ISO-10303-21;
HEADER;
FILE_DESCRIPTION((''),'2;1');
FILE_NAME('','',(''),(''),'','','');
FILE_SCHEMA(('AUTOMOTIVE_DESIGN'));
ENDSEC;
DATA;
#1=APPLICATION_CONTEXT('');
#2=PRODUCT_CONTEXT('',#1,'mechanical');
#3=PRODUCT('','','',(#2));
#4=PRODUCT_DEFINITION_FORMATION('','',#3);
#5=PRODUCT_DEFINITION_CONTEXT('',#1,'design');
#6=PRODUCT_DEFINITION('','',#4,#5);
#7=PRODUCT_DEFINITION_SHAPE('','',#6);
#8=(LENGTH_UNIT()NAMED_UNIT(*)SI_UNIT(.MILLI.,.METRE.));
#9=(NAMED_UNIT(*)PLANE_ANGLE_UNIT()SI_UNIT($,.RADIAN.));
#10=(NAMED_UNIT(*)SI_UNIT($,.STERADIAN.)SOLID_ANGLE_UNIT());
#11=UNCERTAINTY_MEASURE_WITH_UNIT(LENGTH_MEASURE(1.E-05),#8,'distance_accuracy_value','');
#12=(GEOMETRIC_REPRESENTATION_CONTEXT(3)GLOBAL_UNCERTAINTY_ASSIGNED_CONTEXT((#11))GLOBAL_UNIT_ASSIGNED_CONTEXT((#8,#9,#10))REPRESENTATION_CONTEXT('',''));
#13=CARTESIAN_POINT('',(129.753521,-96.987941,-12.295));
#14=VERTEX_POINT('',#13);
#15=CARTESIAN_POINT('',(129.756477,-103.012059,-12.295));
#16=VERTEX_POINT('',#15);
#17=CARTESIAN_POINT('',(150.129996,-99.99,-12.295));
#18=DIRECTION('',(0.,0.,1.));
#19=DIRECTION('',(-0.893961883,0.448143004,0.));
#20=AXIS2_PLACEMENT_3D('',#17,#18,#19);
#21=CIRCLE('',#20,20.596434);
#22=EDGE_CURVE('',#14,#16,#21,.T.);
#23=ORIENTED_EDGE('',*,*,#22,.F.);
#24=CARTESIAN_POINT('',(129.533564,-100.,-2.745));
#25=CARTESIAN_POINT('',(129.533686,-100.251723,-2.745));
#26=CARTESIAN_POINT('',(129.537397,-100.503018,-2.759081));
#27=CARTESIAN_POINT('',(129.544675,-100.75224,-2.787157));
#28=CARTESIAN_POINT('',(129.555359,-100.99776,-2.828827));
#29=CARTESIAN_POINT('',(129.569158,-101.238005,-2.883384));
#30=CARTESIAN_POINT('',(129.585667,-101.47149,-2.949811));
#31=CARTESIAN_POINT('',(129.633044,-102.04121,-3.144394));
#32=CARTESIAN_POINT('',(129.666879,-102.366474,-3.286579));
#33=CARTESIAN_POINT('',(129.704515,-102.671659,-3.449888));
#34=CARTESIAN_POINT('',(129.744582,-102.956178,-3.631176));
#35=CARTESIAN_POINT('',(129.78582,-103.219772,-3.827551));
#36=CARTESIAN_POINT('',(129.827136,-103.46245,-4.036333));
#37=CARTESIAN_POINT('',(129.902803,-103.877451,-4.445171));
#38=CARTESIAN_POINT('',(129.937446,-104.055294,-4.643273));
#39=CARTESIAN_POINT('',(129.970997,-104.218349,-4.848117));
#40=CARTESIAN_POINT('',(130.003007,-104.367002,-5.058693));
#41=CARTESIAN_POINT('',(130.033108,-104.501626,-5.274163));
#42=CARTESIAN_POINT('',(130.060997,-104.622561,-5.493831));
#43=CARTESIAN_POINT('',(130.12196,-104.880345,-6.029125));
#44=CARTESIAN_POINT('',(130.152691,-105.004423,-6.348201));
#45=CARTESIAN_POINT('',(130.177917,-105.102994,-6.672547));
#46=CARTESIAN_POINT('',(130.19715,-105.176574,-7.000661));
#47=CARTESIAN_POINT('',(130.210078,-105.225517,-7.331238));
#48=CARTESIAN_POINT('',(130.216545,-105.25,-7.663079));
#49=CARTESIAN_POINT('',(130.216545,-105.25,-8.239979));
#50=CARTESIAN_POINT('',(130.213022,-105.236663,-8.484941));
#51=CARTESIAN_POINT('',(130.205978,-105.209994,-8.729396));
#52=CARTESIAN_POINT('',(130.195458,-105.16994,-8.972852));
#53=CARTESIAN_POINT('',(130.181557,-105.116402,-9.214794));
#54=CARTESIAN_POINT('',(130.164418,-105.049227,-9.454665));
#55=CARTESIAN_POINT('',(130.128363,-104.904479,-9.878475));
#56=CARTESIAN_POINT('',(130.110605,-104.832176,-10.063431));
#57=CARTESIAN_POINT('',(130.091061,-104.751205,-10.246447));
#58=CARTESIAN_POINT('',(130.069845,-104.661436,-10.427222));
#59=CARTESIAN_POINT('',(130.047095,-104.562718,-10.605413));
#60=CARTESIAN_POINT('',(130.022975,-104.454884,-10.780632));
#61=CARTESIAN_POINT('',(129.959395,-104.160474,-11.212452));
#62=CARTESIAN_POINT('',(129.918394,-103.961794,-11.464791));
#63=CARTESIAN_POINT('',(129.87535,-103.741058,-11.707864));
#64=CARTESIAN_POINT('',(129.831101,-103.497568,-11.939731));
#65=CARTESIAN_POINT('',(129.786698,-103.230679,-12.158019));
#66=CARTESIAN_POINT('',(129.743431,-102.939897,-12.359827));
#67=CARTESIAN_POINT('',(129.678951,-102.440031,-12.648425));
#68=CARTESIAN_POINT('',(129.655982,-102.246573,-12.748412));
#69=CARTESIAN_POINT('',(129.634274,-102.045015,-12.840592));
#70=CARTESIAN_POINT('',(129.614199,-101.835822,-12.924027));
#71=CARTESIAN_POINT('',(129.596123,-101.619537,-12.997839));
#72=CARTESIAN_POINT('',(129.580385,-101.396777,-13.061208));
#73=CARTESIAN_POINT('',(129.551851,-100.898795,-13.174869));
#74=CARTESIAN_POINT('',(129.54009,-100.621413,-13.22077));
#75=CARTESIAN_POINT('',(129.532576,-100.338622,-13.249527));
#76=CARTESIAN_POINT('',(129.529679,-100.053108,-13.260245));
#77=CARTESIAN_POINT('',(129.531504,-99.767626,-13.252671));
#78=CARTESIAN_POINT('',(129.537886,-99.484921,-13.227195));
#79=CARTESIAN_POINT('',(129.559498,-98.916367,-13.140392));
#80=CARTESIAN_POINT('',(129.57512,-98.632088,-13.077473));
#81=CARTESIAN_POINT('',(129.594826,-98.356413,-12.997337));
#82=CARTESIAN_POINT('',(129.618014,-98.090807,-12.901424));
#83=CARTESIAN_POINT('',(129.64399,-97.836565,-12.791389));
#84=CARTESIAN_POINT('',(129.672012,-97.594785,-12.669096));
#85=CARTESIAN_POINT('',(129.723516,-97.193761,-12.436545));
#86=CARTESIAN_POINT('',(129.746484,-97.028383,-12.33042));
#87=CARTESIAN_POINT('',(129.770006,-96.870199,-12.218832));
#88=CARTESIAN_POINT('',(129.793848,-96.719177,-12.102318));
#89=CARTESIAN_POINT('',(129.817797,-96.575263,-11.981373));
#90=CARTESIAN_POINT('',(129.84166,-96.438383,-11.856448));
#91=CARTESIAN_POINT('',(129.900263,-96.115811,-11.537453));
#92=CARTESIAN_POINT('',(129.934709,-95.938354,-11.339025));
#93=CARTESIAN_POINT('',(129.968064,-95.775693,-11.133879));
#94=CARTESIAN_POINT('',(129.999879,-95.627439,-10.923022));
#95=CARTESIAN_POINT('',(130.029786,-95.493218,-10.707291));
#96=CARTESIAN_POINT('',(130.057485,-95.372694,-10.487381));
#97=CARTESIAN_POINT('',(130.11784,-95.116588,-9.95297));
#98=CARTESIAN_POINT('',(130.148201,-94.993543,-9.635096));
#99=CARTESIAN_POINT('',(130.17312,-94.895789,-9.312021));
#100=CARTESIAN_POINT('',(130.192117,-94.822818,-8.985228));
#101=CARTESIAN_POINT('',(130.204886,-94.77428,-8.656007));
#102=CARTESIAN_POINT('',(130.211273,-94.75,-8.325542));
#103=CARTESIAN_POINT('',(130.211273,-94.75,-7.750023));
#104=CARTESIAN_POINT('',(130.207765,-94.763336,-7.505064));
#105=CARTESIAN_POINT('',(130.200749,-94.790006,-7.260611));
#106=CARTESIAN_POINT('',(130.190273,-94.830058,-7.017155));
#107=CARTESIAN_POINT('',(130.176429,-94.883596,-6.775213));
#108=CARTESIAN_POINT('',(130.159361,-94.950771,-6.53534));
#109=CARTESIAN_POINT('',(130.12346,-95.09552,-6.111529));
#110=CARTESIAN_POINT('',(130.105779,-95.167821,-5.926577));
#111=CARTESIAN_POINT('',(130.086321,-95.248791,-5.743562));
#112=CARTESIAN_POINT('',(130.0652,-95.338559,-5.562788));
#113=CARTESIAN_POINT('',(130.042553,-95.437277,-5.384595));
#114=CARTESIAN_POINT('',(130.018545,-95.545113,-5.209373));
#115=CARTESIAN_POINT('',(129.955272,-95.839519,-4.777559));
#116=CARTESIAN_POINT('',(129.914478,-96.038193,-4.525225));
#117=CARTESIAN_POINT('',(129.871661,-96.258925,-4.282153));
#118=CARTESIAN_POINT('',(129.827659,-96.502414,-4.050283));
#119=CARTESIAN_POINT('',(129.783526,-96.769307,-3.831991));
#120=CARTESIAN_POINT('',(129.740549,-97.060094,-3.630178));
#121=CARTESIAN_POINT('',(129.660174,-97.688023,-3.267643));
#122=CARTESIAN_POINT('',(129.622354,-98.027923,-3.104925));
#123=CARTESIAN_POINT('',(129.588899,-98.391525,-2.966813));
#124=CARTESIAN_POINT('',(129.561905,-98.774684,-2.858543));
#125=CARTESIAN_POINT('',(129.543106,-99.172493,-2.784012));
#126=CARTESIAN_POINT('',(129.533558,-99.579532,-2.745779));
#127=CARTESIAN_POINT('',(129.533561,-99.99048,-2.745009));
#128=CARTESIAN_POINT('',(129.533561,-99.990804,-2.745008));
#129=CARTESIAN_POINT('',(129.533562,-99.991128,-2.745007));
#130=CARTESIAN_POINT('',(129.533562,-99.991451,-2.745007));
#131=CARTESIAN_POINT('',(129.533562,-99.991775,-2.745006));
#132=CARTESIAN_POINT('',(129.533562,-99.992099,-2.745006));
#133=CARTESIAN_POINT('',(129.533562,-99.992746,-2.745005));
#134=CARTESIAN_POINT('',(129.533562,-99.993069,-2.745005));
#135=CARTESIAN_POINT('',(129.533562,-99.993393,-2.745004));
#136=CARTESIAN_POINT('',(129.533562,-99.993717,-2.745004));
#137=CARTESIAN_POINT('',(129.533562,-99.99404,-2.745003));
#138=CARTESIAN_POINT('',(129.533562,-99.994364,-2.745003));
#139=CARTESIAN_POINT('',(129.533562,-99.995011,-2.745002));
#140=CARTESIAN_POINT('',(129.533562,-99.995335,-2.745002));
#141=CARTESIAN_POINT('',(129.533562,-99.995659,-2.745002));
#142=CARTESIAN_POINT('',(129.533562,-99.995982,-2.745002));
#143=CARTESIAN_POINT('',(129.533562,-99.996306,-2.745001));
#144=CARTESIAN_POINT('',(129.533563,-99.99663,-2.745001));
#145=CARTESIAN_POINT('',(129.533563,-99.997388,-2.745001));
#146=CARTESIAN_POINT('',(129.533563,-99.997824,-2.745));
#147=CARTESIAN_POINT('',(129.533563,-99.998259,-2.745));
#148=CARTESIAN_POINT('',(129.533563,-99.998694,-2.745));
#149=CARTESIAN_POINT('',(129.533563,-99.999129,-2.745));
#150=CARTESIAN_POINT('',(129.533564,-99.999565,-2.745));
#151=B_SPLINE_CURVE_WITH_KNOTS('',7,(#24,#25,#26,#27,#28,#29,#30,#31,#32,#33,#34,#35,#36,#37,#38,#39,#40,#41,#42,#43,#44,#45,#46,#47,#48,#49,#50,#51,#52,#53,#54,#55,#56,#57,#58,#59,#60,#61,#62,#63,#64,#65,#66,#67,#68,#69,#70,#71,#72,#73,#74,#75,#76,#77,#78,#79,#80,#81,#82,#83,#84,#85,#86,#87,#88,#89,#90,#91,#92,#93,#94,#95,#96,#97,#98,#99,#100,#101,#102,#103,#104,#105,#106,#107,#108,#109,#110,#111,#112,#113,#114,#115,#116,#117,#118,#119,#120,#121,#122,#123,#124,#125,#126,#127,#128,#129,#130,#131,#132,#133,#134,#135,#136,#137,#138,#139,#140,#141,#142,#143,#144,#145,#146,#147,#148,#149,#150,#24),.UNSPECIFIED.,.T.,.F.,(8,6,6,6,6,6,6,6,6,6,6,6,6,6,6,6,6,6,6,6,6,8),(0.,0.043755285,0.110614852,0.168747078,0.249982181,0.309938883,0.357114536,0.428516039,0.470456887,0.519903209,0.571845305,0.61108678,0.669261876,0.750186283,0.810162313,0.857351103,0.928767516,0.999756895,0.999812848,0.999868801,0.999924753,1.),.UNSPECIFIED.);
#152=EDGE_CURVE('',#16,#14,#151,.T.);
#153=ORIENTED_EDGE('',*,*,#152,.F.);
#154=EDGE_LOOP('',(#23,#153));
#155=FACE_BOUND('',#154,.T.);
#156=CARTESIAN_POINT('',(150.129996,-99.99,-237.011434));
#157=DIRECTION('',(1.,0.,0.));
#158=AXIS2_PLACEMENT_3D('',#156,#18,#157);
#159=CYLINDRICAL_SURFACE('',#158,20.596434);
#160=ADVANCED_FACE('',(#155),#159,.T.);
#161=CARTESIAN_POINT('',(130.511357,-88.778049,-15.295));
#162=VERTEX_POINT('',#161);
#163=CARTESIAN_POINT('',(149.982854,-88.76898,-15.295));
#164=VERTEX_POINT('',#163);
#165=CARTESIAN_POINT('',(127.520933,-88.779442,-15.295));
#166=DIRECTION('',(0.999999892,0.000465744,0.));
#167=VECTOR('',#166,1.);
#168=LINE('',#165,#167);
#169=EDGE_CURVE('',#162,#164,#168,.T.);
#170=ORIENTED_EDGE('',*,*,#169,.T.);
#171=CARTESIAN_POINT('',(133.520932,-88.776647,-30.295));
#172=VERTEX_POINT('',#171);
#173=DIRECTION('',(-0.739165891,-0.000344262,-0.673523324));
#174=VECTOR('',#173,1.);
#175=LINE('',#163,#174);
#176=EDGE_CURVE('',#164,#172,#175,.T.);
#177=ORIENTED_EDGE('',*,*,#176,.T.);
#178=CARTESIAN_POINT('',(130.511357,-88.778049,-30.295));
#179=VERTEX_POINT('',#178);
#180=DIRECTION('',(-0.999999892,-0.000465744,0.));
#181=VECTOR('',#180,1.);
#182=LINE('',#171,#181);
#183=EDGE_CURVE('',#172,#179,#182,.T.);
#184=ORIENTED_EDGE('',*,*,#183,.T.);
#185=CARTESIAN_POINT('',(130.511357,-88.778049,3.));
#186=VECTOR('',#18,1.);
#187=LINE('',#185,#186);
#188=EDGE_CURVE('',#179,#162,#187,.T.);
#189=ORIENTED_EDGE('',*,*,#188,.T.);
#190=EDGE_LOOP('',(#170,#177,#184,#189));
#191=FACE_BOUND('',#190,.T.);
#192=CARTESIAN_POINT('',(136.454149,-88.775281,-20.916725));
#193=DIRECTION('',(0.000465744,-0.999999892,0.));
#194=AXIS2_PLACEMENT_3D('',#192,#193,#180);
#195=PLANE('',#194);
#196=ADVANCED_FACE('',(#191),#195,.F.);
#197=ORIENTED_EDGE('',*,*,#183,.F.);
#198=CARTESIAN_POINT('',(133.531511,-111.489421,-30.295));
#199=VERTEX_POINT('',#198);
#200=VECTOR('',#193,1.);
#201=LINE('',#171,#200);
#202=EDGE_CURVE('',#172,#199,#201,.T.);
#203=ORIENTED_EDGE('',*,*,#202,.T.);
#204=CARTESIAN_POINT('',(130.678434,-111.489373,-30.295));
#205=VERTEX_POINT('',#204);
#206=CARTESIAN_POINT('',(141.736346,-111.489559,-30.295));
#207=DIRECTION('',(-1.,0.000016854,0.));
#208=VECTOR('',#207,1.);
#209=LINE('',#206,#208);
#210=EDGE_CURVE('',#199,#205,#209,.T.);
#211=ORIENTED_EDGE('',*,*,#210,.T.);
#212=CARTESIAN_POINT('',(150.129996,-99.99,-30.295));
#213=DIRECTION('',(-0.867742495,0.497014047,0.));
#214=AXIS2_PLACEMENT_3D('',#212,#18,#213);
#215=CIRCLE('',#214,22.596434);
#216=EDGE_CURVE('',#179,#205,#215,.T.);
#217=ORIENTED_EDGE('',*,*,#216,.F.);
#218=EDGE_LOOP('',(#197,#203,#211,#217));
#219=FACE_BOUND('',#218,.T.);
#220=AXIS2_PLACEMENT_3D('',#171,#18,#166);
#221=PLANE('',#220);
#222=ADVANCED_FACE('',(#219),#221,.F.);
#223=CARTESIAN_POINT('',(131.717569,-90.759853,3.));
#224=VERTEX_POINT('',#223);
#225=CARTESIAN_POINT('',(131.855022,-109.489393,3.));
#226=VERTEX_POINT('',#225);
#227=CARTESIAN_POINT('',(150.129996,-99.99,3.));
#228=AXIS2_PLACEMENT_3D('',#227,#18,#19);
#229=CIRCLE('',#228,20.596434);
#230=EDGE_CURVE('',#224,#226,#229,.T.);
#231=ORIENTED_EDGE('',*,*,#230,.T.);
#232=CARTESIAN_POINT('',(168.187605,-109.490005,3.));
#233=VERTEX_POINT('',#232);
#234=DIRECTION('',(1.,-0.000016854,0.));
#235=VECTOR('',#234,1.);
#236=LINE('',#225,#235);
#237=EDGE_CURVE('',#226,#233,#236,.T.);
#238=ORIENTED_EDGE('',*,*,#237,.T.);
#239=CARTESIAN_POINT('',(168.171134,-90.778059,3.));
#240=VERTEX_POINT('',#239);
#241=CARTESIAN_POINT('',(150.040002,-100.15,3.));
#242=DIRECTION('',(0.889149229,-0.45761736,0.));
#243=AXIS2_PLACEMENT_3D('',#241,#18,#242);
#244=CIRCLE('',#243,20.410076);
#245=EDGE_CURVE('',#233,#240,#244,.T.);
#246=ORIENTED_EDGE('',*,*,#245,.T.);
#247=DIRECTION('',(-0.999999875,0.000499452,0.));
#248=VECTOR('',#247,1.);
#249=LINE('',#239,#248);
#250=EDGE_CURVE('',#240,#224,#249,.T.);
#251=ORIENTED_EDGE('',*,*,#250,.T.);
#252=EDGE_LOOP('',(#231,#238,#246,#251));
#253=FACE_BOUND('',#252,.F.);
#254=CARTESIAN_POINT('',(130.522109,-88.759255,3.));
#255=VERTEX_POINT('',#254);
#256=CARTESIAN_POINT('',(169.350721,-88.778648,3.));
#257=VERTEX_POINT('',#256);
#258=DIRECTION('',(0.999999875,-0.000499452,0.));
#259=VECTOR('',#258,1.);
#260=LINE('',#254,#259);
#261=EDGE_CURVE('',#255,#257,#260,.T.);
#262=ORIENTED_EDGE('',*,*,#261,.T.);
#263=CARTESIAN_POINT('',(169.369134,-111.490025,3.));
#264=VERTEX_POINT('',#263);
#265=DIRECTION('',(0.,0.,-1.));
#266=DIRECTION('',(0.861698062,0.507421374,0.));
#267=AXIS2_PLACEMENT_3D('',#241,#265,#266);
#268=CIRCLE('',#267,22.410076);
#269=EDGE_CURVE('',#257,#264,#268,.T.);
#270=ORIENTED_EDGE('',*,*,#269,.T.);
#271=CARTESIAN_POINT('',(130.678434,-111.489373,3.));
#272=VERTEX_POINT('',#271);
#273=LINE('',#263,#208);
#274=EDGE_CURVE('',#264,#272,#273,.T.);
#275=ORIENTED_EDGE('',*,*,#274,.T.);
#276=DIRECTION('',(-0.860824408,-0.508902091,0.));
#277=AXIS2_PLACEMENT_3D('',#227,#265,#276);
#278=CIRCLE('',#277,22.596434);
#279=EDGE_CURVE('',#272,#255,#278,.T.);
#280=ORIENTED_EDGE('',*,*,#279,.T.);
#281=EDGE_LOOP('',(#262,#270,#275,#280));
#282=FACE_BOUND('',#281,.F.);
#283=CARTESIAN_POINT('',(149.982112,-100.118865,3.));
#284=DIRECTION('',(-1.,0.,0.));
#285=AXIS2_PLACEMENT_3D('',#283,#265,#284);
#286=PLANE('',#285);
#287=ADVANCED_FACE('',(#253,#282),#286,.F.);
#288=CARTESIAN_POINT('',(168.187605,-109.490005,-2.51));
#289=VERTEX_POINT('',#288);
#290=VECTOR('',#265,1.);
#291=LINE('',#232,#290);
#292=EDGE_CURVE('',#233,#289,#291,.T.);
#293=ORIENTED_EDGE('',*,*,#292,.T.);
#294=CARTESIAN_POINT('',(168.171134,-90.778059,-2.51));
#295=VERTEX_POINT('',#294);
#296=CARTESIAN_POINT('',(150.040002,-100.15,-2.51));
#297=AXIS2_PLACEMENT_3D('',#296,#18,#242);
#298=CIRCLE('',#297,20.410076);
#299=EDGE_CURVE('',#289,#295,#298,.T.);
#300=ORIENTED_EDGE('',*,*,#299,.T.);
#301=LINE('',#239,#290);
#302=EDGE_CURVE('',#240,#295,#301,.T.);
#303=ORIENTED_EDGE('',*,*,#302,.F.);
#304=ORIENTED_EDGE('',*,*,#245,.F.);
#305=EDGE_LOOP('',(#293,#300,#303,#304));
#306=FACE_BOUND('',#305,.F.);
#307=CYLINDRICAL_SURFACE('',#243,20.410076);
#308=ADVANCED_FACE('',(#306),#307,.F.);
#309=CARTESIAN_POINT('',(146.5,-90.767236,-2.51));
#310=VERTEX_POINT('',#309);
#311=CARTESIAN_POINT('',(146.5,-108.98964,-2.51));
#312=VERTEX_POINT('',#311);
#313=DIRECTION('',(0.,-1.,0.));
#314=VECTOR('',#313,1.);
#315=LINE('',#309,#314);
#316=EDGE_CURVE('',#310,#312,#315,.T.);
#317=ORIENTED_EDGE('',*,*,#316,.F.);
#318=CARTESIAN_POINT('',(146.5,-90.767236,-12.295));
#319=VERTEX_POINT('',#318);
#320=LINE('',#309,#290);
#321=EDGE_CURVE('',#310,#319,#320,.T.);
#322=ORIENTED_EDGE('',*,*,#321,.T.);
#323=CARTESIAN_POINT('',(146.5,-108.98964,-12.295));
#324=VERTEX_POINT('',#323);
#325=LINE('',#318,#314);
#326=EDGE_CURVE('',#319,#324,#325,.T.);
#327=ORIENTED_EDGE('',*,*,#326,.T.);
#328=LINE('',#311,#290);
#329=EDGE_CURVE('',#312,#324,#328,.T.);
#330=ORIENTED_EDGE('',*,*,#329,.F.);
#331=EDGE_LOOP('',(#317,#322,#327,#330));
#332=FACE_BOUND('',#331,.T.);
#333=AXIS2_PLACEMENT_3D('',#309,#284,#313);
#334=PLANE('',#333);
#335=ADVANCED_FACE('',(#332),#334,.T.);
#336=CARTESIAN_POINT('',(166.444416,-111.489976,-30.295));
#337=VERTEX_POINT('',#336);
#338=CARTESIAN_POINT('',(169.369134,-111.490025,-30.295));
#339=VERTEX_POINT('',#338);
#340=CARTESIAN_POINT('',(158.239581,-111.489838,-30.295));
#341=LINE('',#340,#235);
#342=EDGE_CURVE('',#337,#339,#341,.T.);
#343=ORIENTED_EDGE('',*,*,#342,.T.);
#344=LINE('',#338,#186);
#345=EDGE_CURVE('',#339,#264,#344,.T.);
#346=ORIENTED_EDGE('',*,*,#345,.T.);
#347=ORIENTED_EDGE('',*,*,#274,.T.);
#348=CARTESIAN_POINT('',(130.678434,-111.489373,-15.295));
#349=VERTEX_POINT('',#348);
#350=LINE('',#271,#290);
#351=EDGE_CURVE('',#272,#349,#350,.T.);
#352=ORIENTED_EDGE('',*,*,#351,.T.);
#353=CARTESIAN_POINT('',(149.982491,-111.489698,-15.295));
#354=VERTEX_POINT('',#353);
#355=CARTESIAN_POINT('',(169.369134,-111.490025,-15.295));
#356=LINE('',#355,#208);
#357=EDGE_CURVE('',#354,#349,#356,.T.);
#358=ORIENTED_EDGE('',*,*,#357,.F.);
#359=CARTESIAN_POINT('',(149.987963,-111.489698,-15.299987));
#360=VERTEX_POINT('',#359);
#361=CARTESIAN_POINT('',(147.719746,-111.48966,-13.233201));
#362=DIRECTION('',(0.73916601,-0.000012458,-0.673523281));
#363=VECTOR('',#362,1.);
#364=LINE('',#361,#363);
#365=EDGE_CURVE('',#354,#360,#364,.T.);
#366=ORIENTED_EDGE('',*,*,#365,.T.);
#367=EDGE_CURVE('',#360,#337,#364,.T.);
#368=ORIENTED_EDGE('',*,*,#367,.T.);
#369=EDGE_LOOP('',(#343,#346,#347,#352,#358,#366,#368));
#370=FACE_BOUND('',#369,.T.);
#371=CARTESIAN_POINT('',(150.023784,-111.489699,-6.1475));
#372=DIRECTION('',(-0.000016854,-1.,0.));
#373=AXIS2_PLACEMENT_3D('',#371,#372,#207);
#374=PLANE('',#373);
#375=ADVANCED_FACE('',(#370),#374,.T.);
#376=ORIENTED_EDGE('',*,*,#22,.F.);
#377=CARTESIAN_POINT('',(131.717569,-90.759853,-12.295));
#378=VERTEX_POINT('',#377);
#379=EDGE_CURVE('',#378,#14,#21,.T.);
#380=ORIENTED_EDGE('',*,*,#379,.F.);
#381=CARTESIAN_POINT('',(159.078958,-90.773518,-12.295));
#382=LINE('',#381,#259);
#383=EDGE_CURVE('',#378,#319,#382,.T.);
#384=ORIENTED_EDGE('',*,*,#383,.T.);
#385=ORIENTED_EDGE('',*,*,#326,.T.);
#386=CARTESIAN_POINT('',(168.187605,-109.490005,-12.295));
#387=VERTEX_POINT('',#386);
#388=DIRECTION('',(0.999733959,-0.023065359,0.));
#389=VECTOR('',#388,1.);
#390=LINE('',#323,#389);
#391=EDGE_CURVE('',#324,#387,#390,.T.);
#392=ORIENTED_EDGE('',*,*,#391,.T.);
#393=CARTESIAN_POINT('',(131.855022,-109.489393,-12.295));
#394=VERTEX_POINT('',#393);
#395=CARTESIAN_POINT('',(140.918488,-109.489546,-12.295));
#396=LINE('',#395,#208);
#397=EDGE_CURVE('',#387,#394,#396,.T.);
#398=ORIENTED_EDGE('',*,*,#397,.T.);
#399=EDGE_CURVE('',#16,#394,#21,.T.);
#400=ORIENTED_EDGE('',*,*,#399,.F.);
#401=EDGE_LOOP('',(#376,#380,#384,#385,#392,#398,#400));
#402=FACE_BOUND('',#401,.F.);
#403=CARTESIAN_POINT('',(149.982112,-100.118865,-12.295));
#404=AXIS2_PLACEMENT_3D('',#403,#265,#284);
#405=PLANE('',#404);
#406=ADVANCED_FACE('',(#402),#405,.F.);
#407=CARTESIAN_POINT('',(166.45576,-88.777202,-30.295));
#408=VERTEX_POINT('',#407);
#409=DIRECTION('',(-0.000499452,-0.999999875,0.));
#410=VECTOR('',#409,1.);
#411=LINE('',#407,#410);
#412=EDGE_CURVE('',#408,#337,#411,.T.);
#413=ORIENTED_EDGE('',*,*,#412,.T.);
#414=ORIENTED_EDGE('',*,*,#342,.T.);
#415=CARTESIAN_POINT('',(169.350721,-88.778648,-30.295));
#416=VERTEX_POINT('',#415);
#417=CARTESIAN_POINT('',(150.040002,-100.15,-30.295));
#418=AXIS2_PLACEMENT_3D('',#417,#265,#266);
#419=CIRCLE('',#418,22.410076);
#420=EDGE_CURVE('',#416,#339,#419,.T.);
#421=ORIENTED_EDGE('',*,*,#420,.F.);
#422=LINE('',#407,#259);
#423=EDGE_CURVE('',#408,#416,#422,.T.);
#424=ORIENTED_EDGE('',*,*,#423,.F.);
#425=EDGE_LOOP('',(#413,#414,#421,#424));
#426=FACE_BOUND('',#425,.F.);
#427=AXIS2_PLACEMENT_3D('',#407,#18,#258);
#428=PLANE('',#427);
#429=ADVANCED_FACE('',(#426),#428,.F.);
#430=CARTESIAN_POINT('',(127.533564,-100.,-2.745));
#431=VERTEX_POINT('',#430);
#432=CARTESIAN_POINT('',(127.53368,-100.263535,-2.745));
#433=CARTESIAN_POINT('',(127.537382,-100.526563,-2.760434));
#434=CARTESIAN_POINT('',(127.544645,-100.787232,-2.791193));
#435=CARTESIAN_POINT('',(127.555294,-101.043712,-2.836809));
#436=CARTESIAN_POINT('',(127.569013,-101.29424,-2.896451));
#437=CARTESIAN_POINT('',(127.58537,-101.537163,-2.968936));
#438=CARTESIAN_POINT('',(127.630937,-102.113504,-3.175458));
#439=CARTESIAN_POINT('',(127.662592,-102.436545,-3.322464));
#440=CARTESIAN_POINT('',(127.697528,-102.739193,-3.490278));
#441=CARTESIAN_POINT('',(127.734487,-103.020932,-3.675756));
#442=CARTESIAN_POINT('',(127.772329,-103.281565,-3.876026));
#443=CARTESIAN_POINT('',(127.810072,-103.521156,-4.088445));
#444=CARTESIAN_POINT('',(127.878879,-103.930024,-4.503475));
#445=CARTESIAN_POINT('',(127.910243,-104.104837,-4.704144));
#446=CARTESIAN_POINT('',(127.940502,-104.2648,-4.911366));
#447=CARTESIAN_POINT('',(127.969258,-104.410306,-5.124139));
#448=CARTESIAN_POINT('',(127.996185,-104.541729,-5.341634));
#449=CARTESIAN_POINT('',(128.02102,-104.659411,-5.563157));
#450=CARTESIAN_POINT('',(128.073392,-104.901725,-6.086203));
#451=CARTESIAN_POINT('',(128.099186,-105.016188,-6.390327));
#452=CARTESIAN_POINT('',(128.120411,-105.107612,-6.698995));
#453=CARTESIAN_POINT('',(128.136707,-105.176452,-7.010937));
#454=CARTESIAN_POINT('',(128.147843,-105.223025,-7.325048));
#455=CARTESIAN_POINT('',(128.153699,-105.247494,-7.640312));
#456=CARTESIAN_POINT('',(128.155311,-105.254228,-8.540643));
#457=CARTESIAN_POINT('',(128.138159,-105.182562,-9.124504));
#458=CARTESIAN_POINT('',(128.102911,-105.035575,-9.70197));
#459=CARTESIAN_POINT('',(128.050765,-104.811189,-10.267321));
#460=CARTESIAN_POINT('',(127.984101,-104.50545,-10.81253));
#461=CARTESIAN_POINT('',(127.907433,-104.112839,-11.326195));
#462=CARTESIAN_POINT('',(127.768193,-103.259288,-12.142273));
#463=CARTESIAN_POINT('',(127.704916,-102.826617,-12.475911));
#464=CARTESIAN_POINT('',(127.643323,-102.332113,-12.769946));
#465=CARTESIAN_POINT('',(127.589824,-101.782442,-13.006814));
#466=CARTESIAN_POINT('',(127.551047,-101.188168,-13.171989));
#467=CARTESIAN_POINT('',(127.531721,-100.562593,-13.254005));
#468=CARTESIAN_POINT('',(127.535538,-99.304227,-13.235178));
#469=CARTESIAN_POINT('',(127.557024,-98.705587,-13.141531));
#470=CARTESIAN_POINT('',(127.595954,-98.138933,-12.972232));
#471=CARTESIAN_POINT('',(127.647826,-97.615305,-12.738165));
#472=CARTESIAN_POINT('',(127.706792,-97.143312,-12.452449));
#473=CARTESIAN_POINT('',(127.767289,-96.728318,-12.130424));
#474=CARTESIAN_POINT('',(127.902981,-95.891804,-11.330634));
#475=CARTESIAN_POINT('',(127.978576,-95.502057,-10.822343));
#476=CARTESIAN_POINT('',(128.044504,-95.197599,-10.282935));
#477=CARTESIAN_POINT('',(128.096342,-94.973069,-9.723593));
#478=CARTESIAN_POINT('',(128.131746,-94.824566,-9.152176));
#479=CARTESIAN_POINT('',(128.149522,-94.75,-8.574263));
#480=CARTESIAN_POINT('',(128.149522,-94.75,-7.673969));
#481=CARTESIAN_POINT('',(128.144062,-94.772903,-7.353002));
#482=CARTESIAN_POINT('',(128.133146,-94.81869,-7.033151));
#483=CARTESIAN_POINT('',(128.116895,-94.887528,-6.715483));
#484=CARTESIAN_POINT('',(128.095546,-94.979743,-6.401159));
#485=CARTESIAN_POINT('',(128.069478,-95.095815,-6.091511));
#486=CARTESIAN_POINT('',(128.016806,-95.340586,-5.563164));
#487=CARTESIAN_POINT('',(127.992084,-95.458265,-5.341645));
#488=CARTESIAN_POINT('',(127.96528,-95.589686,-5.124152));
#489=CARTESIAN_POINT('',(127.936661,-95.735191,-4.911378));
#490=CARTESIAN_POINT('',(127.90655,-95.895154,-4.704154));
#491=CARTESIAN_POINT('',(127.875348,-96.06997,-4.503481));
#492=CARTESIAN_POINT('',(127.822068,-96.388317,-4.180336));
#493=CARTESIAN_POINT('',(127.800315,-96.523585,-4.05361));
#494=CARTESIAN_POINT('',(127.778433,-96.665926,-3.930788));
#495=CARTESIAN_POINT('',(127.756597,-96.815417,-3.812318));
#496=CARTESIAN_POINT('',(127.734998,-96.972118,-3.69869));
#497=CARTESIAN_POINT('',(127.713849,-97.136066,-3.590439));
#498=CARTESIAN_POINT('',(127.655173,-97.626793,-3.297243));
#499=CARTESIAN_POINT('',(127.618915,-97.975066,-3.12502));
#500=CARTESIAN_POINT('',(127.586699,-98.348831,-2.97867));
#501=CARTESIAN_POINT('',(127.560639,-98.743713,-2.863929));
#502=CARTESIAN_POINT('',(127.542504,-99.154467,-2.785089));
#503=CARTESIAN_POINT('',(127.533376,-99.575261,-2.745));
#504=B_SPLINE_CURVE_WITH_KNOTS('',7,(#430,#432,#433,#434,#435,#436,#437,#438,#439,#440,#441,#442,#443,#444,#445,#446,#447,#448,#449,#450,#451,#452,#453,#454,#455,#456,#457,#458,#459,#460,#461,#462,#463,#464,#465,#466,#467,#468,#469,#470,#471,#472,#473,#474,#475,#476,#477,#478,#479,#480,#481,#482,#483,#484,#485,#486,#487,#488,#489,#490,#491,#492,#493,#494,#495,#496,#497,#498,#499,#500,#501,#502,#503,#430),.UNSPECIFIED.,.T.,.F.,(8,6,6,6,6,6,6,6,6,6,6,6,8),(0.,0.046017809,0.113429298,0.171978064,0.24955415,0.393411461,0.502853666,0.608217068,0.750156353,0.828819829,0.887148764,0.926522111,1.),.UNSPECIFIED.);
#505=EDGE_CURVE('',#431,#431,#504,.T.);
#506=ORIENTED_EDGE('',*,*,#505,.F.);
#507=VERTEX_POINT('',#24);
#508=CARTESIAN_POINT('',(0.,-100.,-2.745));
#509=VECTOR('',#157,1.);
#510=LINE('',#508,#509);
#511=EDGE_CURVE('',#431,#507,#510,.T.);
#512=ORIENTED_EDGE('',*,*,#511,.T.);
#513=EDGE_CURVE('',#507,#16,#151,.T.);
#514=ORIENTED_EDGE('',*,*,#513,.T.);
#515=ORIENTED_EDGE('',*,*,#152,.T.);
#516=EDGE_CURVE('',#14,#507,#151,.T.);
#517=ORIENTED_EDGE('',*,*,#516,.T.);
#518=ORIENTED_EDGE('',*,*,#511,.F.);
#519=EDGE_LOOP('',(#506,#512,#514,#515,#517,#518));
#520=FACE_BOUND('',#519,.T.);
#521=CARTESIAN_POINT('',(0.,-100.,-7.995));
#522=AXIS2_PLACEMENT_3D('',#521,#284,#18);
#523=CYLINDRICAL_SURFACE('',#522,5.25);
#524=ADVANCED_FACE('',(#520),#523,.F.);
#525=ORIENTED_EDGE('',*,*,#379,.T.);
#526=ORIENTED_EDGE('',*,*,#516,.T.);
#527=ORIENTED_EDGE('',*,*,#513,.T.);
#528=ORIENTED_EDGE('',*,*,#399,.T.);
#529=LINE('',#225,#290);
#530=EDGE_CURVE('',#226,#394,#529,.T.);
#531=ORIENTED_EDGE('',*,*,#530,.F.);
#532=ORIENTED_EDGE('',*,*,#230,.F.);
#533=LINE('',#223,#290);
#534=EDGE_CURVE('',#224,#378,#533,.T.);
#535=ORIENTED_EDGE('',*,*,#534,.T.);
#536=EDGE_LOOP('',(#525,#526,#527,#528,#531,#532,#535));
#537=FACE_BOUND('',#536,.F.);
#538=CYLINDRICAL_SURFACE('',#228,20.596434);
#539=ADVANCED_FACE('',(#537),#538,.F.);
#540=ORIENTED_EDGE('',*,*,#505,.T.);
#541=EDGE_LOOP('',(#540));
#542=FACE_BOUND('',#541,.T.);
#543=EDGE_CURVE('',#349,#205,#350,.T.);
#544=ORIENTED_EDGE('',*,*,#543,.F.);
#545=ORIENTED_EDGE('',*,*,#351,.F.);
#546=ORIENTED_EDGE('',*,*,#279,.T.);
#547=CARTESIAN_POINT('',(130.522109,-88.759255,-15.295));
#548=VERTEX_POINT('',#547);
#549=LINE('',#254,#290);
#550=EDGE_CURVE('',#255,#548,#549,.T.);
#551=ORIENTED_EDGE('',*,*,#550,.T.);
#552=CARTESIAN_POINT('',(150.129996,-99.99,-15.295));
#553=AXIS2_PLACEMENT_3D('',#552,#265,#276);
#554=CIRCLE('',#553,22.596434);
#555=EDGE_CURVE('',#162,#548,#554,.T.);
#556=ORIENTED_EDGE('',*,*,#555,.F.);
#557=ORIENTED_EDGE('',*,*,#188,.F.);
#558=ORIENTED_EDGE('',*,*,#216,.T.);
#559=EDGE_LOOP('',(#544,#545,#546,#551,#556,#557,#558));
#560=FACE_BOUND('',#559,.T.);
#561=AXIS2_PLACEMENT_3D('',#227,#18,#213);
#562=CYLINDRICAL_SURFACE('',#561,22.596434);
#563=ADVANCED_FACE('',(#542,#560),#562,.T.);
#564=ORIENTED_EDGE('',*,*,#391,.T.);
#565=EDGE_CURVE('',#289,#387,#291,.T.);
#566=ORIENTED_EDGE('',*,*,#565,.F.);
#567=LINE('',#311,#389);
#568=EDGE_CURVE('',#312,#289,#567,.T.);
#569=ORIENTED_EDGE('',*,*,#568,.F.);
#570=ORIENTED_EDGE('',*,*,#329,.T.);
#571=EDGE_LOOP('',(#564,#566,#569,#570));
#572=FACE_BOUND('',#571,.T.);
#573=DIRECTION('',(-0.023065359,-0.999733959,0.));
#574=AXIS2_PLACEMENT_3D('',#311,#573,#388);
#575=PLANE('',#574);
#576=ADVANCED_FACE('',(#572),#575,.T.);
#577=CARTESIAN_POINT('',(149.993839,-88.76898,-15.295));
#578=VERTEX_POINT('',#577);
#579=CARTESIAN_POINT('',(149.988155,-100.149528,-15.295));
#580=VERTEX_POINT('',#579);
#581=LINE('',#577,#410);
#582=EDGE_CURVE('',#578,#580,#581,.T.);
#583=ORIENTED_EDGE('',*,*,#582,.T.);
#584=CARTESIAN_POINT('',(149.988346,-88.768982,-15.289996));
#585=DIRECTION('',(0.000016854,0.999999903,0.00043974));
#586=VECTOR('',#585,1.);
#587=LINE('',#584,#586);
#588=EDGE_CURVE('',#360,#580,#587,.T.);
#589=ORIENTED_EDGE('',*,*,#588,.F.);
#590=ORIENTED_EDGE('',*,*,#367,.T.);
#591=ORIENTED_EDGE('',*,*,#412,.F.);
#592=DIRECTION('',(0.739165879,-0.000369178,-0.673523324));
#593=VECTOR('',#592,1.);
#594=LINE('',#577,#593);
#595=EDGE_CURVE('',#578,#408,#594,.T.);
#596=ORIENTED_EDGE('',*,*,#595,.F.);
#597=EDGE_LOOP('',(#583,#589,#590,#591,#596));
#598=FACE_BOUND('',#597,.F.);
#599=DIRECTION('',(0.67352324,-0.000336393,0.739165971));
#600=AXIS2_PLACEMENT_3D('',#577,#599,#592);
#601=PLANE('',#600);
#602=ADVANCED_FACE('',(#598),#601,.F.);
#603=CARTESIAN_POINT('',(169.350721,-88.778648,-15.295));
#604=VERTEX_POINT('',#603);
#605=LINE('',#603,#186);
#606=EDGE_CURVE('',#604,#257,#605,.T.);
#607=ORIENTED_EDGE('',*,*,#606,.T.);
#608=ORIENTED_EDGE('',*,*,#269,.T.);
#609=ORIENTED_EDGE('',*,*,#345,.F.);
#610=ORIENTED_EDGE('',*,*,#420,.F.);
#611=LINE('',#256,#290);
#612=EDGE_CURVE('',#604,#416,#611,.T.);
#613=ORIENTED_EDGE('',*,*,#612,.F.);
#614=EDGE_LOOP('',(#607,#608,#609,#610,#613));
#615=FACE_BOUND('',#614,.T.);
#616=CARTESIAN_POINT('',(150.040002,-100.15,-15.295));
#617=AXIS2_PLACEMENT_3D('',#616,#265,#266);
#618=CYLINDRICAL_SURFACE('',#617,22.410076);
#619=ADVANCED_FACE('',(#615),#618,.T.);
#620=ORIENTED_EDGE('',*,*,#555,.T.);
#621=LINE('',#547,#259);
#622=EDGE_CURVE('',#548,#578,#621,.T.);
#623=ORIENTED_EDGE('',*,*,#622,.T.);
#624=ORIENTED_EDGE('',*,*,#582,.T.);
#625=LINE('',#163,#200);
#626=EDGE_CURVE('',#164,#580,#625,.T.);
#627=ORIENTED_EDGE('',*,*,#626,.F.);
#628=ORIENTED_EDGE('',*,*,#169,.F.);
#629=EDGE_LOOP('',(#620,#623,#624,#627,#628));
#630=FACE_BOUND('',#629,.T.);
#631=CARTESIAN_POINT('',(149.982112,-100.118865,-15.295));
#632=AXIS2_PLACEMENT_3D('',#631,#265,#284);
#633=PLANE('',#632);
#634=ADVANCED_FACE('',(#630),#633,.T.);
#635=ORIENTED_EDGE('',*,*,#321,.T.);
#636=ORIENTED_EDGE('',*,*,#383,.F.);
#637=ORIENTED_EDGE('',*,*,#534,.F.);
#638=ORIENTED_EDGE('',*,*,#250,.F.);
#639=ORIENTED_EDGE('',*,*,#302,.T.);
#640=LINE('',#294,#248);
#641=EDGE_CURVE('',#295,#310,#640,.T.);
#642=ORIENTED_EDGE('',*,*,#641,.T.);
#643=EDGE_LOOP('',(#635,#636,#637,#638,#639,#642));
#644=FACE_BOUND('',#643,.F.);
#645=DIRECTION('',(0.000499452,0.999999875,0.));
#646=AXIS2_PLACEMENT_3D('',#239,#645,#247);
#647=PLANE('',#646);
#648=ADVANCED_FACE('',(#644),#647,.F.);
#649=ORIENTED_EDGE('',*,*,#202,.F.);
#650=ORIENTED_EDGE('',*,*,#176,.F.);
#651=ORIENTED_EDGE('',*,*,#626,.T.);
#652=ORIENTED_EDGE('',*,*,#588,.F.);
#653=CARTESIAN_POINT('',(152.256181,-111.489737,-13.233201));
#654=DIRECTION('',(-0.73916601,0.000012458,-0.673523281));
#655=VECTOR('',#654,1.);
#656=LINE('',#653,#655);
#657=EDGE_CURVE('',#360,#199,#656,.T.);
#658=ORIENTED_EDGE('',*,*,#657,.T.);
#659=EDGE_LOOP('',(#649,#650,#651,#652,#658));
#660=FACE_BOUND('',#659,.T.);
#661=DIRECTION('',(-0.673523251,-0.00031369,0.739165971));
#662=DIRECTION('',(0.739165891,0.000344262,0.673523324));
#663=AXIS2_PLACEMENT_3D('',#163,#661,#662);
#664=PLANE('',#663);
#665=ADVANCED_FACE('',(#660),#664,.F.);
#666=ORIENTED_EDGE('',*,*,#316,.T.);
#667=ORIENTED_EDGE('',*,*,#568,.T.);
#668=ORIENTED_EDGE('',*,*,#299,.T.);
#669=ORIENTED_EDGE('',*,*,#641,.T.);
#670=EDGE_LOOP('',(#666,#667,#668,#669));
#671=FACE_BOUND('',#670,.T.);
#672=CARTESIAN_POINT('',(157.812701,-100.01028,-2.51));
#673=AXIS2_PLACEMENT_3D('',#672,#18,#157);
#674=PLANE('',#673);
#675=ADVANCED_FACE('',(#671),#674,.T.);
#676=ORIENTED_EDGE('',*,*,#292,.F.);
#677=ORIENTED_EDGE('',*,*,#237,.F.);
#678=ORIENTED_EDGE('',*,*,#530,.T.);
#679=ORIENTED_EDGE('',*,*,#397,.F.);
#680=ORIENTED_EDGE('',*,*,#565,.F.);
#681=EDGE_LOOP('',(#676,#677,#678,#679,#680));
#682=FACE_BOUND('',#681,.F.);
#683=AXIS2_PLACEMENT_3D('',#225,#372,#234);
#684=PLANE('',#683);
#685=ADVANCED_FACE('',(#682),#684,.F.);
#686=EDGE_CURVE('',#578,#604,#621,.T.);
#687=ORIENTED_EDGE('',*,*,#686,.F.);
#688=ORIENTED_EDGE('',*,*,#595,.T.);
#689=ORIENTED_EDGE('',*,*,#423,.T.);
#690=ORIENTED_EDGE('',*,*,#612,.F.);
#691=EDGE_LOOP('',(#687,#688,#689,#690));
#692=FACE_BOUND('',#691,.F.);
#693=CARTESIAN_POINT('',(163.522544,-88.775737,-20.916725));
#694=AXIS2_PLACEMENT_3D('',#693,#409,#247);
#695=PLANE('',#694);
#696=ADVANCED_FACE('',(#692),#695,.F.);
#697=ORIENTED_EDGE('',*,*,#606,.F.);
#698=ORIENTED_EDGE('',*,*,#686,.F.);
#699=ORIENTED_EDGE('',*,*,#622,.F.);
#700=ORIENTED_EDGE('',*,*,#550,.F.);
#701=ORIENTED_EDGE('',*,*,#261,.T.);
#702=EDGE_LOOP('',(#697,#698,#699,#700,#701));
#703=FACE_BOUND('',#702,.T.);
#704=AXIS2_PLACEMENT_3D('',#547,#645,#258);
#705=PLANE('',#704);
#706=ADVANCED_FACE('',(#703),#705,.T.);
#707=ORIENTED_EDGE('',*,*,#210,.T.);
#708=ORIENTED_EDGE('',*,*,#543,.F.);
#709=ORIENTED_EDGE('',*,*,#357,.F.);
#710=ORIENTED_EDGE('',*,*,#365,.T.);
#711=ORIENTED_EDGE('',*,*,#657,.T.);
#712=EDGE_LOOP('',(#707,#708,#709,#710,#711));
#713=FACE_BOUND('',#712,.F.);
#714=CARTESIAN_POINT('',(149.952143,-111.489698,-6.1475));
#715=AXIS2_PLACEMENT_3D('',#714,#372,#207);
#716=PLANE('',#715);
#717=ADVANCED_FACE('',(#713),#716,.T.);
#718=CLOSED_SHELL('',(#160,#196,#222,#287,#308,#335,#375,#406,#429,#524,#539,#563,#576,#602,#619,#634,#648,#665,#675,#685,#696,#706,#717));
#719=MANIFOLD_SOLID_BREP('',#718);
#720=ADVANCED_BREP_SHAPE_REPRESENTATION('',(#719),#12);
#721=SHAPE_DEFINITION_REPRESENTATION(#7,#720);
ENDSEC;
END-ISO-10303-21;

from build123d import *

# Parameters (mm, degrees)
BOSS_EXTRUDE1_DEPTH     = 15.295
CUT_EXTRUDE1_DEPTH      = 206.919868261
FLOOR_START             = 3
FLOOR_2_DEPTH           = 3
BOSS_EXTRUDE4_START     = 9.785
BOSS_EXTRUDE4_DEPTH     = 9.785
CUT_EXTRUDE3_REACH      = 207.92
CUT_EXTRUDE3_END_RADIUS = 20.596434206
SKETCH7_R               = 5.25
BOSS_EXTRUDE5_REACH     = 176.665
SKETCH14_OUTSIDE_W      = 59.009
SKETCH14_OUTSIDE_H      = 36.805
CUT_EXTRUDE4_DEPTH      = 33.295


with BuildPart() as part:
    # Sketch1 → Boss-Extrude1 (new body)
    with BuildSketch(Plane(origin=(0, 0, -12.295), x_dir=(-1, 0, 0), z_dir=(0, 0, -1))):
        with BuildLine():
            Line((-169.369133898, -111.490025098), (-130.678433581, -111.48937301))
            ThreePointArc((-130.678433581, -111.48937301), (-127.534095849, -100.145401406), (-130.522109497, -88.759255177))
            Line((-130.522109497, -88.759255177), (-169.350721063, -88.778648203))
            ThreePointArc((-169.350721063, -88.778648203), (-172.450070697, -100.131831373), (-169.369133898, -111.490025098))
        make_face()
    extrude(amount=-BOSS_EXTRUDE1_DEPTH)

    # Sketch2 → Cut-Extrude1 (cut, through all)
    with BuildSketch(Plane.XY.offset(3)):
        with BuildLine():
            Line((168.171133654, -90.778059306), (131.717568579, -90.759852501))
            ThreePointArc((131.717568579, -90.759852501), (129.534116109, -100.141151153), (131.855022492, -109.48939284))
            Line((131.855022492, -109.48939284), (168.187605365, -109.490005184))
            ThreePointArc((168.187605365, -109.490005184), (170.450070154, -100.132033398), (168.171133654, -90.778059306))
        make_face()
    extrude(amount=-CUT_EXTRUDE1_DEPTH, mode=Mode.SUBTRACT)

    # Sketch4 → floor 2 (add)
    with BuildSketch(Plane(origin=(0, 0, -12.295), x_dir=(-1, 0, 0), z_dir=(0, 0, -1)).offset(FLOOR_START)):
        with BuildLine():
            Line((-169.369133898, -111.490025098), (-130.678433581, -111.48937301))
            ThreePointArc((-130.678433581, -111.48937301), (-127.534095849, -100.145401406), (-130.522109497, -88.759255177))
            Line((-130.522109497, -88.759255177), (-169.350721063, -88.778648203))
            ThreePointArc((-169.350721063, -88.778648203), (-172.450070697, -100.131831373), (-169.369133898, -111.490025098))
        make_face()
    extrude(amount=-FLOOR_2_DEPTH)

    # Sketch6 → Boss-Extrude4 (add)
    with BuildSketch(Plane.XY.offset(-12.295).offset(BOSS_EXTRUDE4_START)):
        with BuildLine():
            Line((146.5, -90.767235615), (146.5, -108.989639664))
            Line((146.5, -108.989639664), (168.187605365, -109.490005184))
            ThreePointArc((168.187605365, -109.490005184), (170.450070154, -100.132033398), (168.171133654, -90.778059306))
            Line((168.171133654, -90.778059306), (146.5, -90.767235615))
        make_face()
    extrude(amount=-BOSS_EXTRUDE4_DEPTH)

    # Cut-Extrude3: up to this cylinder (the profile starts outside it)
    cut_extrude3_end = Plane(origin=(150.129995683, -99.990000393, -7.995), z_dir=(0, 0, 1)) * Cylinder(CUT_EXTRUDE3_END_RADIUS, 458.032868411, mode=Mode.PRIVATE)
    # Sketch7 → Cut-Extrude3 (cut, up to the surface)
    with BuildSketch(Plane(origin=(0, 0, 0), x_dir=(0, 0, -1), z_dir=(1, 0, 0)), mode=Mode.PRIVATE) as cut_extrude3_sk1:
        with Locations(Location((7.995, -100, 0), (0, 0, 180))):
            Circle(SKETCH7_R)
    cut_extrude3_tool1 = extrude(cut_extrude3_sk1.sketch, amount=CUT_EXTRUDE3_REACH, mode=Mode.PRIVATE) - cut_extrude3_end
    add(cut_extrude3_tool1.solids().sort_by_distance((0, -100, -7.995))[0], mode=Mode.SUBTRACT)

    # Boss-Extrude5: up to this face of the body (flat: up to its plane)
    boss_extrude5_end = Plane(part.part.faces().sort_by_distance((150.023783739, -111.489699054, -6.1475))[0])
    # Sketch11 → Boss-Extrude5 (add, up to the picked face)
    with BuildSketch(Plane(origin=(-0.044298414, -88.694043528, 0), x_dir=(0.9999998752738909, -0.0004994519023308322, 0), z_dir=(0.0004994519023308322, 0.9999998752738909, 0)), mode=Mode.PRIVATE) as boss_extrude5_sk1:
        Polygon((150.03815576, 15.295), (166.500079456, 30.295), (172.500079456, 30.295), (172.500079456, 15.295), align=None)
    boss_extrude5_tool1 = split(extrude(boss_extrude5_sk1.sketch, amount=-BOSS_EXTRUDE5_REACH, mode=Mode.PRIVATE), bisect_by=boss_extrude5_end, keep=Keep.BOTH, mode=Mode.PRIVATE)
    boss_extrude5 = boss_extrude5_tool1.solids().sort_by(Axis((164.546837, -88.776249, -21.34904), (-0.0004994519023308322, -0.9999998752738909, 0)))[0]
    add(boss_extrude5)

    # Mirror1: Boss-Extrude5 across plane
    add(boss_extrude5.mirror(Plane(origin=(149.98984246, -0.002527909, 0), x_dir=(0, 0, 1), z_dir=(-0.9999999998579736, 1.6853871084051315e-05, 0))))

    # Sketch14 outside → Cut-Extrude4 (cut)
    with BuildSketch(Plane.XY.offset(3)):
        with Locations((149.9885, -100.1245)):
            Rectangle(SKETCH14_OUTSIDE_W, SKETCH14_OUTSIDE_H)
        with BuildLine():
            Line((169.350721063, -88.778648203), (130.522109497, -88.759255177))
            ThreePointArc((130.522109497, -88.759255177), (127.534095849, -100.145401406), (130.678433581, -111.48937301))
            Line((130.678433581, -111.48937301), (169.369133898, -111.490025098))
            ThreePointArc((169.369133898, -111.490025098), (172.450070697, -100.131831373), (169.350721063, -88.778648203))
        make_face(mode=Mode.SUBTRACT)
    extrude(amount=-CUT_EXTRUDE4_DEPTH, mode=Mode.SUBTRACT)


solid = part.part
